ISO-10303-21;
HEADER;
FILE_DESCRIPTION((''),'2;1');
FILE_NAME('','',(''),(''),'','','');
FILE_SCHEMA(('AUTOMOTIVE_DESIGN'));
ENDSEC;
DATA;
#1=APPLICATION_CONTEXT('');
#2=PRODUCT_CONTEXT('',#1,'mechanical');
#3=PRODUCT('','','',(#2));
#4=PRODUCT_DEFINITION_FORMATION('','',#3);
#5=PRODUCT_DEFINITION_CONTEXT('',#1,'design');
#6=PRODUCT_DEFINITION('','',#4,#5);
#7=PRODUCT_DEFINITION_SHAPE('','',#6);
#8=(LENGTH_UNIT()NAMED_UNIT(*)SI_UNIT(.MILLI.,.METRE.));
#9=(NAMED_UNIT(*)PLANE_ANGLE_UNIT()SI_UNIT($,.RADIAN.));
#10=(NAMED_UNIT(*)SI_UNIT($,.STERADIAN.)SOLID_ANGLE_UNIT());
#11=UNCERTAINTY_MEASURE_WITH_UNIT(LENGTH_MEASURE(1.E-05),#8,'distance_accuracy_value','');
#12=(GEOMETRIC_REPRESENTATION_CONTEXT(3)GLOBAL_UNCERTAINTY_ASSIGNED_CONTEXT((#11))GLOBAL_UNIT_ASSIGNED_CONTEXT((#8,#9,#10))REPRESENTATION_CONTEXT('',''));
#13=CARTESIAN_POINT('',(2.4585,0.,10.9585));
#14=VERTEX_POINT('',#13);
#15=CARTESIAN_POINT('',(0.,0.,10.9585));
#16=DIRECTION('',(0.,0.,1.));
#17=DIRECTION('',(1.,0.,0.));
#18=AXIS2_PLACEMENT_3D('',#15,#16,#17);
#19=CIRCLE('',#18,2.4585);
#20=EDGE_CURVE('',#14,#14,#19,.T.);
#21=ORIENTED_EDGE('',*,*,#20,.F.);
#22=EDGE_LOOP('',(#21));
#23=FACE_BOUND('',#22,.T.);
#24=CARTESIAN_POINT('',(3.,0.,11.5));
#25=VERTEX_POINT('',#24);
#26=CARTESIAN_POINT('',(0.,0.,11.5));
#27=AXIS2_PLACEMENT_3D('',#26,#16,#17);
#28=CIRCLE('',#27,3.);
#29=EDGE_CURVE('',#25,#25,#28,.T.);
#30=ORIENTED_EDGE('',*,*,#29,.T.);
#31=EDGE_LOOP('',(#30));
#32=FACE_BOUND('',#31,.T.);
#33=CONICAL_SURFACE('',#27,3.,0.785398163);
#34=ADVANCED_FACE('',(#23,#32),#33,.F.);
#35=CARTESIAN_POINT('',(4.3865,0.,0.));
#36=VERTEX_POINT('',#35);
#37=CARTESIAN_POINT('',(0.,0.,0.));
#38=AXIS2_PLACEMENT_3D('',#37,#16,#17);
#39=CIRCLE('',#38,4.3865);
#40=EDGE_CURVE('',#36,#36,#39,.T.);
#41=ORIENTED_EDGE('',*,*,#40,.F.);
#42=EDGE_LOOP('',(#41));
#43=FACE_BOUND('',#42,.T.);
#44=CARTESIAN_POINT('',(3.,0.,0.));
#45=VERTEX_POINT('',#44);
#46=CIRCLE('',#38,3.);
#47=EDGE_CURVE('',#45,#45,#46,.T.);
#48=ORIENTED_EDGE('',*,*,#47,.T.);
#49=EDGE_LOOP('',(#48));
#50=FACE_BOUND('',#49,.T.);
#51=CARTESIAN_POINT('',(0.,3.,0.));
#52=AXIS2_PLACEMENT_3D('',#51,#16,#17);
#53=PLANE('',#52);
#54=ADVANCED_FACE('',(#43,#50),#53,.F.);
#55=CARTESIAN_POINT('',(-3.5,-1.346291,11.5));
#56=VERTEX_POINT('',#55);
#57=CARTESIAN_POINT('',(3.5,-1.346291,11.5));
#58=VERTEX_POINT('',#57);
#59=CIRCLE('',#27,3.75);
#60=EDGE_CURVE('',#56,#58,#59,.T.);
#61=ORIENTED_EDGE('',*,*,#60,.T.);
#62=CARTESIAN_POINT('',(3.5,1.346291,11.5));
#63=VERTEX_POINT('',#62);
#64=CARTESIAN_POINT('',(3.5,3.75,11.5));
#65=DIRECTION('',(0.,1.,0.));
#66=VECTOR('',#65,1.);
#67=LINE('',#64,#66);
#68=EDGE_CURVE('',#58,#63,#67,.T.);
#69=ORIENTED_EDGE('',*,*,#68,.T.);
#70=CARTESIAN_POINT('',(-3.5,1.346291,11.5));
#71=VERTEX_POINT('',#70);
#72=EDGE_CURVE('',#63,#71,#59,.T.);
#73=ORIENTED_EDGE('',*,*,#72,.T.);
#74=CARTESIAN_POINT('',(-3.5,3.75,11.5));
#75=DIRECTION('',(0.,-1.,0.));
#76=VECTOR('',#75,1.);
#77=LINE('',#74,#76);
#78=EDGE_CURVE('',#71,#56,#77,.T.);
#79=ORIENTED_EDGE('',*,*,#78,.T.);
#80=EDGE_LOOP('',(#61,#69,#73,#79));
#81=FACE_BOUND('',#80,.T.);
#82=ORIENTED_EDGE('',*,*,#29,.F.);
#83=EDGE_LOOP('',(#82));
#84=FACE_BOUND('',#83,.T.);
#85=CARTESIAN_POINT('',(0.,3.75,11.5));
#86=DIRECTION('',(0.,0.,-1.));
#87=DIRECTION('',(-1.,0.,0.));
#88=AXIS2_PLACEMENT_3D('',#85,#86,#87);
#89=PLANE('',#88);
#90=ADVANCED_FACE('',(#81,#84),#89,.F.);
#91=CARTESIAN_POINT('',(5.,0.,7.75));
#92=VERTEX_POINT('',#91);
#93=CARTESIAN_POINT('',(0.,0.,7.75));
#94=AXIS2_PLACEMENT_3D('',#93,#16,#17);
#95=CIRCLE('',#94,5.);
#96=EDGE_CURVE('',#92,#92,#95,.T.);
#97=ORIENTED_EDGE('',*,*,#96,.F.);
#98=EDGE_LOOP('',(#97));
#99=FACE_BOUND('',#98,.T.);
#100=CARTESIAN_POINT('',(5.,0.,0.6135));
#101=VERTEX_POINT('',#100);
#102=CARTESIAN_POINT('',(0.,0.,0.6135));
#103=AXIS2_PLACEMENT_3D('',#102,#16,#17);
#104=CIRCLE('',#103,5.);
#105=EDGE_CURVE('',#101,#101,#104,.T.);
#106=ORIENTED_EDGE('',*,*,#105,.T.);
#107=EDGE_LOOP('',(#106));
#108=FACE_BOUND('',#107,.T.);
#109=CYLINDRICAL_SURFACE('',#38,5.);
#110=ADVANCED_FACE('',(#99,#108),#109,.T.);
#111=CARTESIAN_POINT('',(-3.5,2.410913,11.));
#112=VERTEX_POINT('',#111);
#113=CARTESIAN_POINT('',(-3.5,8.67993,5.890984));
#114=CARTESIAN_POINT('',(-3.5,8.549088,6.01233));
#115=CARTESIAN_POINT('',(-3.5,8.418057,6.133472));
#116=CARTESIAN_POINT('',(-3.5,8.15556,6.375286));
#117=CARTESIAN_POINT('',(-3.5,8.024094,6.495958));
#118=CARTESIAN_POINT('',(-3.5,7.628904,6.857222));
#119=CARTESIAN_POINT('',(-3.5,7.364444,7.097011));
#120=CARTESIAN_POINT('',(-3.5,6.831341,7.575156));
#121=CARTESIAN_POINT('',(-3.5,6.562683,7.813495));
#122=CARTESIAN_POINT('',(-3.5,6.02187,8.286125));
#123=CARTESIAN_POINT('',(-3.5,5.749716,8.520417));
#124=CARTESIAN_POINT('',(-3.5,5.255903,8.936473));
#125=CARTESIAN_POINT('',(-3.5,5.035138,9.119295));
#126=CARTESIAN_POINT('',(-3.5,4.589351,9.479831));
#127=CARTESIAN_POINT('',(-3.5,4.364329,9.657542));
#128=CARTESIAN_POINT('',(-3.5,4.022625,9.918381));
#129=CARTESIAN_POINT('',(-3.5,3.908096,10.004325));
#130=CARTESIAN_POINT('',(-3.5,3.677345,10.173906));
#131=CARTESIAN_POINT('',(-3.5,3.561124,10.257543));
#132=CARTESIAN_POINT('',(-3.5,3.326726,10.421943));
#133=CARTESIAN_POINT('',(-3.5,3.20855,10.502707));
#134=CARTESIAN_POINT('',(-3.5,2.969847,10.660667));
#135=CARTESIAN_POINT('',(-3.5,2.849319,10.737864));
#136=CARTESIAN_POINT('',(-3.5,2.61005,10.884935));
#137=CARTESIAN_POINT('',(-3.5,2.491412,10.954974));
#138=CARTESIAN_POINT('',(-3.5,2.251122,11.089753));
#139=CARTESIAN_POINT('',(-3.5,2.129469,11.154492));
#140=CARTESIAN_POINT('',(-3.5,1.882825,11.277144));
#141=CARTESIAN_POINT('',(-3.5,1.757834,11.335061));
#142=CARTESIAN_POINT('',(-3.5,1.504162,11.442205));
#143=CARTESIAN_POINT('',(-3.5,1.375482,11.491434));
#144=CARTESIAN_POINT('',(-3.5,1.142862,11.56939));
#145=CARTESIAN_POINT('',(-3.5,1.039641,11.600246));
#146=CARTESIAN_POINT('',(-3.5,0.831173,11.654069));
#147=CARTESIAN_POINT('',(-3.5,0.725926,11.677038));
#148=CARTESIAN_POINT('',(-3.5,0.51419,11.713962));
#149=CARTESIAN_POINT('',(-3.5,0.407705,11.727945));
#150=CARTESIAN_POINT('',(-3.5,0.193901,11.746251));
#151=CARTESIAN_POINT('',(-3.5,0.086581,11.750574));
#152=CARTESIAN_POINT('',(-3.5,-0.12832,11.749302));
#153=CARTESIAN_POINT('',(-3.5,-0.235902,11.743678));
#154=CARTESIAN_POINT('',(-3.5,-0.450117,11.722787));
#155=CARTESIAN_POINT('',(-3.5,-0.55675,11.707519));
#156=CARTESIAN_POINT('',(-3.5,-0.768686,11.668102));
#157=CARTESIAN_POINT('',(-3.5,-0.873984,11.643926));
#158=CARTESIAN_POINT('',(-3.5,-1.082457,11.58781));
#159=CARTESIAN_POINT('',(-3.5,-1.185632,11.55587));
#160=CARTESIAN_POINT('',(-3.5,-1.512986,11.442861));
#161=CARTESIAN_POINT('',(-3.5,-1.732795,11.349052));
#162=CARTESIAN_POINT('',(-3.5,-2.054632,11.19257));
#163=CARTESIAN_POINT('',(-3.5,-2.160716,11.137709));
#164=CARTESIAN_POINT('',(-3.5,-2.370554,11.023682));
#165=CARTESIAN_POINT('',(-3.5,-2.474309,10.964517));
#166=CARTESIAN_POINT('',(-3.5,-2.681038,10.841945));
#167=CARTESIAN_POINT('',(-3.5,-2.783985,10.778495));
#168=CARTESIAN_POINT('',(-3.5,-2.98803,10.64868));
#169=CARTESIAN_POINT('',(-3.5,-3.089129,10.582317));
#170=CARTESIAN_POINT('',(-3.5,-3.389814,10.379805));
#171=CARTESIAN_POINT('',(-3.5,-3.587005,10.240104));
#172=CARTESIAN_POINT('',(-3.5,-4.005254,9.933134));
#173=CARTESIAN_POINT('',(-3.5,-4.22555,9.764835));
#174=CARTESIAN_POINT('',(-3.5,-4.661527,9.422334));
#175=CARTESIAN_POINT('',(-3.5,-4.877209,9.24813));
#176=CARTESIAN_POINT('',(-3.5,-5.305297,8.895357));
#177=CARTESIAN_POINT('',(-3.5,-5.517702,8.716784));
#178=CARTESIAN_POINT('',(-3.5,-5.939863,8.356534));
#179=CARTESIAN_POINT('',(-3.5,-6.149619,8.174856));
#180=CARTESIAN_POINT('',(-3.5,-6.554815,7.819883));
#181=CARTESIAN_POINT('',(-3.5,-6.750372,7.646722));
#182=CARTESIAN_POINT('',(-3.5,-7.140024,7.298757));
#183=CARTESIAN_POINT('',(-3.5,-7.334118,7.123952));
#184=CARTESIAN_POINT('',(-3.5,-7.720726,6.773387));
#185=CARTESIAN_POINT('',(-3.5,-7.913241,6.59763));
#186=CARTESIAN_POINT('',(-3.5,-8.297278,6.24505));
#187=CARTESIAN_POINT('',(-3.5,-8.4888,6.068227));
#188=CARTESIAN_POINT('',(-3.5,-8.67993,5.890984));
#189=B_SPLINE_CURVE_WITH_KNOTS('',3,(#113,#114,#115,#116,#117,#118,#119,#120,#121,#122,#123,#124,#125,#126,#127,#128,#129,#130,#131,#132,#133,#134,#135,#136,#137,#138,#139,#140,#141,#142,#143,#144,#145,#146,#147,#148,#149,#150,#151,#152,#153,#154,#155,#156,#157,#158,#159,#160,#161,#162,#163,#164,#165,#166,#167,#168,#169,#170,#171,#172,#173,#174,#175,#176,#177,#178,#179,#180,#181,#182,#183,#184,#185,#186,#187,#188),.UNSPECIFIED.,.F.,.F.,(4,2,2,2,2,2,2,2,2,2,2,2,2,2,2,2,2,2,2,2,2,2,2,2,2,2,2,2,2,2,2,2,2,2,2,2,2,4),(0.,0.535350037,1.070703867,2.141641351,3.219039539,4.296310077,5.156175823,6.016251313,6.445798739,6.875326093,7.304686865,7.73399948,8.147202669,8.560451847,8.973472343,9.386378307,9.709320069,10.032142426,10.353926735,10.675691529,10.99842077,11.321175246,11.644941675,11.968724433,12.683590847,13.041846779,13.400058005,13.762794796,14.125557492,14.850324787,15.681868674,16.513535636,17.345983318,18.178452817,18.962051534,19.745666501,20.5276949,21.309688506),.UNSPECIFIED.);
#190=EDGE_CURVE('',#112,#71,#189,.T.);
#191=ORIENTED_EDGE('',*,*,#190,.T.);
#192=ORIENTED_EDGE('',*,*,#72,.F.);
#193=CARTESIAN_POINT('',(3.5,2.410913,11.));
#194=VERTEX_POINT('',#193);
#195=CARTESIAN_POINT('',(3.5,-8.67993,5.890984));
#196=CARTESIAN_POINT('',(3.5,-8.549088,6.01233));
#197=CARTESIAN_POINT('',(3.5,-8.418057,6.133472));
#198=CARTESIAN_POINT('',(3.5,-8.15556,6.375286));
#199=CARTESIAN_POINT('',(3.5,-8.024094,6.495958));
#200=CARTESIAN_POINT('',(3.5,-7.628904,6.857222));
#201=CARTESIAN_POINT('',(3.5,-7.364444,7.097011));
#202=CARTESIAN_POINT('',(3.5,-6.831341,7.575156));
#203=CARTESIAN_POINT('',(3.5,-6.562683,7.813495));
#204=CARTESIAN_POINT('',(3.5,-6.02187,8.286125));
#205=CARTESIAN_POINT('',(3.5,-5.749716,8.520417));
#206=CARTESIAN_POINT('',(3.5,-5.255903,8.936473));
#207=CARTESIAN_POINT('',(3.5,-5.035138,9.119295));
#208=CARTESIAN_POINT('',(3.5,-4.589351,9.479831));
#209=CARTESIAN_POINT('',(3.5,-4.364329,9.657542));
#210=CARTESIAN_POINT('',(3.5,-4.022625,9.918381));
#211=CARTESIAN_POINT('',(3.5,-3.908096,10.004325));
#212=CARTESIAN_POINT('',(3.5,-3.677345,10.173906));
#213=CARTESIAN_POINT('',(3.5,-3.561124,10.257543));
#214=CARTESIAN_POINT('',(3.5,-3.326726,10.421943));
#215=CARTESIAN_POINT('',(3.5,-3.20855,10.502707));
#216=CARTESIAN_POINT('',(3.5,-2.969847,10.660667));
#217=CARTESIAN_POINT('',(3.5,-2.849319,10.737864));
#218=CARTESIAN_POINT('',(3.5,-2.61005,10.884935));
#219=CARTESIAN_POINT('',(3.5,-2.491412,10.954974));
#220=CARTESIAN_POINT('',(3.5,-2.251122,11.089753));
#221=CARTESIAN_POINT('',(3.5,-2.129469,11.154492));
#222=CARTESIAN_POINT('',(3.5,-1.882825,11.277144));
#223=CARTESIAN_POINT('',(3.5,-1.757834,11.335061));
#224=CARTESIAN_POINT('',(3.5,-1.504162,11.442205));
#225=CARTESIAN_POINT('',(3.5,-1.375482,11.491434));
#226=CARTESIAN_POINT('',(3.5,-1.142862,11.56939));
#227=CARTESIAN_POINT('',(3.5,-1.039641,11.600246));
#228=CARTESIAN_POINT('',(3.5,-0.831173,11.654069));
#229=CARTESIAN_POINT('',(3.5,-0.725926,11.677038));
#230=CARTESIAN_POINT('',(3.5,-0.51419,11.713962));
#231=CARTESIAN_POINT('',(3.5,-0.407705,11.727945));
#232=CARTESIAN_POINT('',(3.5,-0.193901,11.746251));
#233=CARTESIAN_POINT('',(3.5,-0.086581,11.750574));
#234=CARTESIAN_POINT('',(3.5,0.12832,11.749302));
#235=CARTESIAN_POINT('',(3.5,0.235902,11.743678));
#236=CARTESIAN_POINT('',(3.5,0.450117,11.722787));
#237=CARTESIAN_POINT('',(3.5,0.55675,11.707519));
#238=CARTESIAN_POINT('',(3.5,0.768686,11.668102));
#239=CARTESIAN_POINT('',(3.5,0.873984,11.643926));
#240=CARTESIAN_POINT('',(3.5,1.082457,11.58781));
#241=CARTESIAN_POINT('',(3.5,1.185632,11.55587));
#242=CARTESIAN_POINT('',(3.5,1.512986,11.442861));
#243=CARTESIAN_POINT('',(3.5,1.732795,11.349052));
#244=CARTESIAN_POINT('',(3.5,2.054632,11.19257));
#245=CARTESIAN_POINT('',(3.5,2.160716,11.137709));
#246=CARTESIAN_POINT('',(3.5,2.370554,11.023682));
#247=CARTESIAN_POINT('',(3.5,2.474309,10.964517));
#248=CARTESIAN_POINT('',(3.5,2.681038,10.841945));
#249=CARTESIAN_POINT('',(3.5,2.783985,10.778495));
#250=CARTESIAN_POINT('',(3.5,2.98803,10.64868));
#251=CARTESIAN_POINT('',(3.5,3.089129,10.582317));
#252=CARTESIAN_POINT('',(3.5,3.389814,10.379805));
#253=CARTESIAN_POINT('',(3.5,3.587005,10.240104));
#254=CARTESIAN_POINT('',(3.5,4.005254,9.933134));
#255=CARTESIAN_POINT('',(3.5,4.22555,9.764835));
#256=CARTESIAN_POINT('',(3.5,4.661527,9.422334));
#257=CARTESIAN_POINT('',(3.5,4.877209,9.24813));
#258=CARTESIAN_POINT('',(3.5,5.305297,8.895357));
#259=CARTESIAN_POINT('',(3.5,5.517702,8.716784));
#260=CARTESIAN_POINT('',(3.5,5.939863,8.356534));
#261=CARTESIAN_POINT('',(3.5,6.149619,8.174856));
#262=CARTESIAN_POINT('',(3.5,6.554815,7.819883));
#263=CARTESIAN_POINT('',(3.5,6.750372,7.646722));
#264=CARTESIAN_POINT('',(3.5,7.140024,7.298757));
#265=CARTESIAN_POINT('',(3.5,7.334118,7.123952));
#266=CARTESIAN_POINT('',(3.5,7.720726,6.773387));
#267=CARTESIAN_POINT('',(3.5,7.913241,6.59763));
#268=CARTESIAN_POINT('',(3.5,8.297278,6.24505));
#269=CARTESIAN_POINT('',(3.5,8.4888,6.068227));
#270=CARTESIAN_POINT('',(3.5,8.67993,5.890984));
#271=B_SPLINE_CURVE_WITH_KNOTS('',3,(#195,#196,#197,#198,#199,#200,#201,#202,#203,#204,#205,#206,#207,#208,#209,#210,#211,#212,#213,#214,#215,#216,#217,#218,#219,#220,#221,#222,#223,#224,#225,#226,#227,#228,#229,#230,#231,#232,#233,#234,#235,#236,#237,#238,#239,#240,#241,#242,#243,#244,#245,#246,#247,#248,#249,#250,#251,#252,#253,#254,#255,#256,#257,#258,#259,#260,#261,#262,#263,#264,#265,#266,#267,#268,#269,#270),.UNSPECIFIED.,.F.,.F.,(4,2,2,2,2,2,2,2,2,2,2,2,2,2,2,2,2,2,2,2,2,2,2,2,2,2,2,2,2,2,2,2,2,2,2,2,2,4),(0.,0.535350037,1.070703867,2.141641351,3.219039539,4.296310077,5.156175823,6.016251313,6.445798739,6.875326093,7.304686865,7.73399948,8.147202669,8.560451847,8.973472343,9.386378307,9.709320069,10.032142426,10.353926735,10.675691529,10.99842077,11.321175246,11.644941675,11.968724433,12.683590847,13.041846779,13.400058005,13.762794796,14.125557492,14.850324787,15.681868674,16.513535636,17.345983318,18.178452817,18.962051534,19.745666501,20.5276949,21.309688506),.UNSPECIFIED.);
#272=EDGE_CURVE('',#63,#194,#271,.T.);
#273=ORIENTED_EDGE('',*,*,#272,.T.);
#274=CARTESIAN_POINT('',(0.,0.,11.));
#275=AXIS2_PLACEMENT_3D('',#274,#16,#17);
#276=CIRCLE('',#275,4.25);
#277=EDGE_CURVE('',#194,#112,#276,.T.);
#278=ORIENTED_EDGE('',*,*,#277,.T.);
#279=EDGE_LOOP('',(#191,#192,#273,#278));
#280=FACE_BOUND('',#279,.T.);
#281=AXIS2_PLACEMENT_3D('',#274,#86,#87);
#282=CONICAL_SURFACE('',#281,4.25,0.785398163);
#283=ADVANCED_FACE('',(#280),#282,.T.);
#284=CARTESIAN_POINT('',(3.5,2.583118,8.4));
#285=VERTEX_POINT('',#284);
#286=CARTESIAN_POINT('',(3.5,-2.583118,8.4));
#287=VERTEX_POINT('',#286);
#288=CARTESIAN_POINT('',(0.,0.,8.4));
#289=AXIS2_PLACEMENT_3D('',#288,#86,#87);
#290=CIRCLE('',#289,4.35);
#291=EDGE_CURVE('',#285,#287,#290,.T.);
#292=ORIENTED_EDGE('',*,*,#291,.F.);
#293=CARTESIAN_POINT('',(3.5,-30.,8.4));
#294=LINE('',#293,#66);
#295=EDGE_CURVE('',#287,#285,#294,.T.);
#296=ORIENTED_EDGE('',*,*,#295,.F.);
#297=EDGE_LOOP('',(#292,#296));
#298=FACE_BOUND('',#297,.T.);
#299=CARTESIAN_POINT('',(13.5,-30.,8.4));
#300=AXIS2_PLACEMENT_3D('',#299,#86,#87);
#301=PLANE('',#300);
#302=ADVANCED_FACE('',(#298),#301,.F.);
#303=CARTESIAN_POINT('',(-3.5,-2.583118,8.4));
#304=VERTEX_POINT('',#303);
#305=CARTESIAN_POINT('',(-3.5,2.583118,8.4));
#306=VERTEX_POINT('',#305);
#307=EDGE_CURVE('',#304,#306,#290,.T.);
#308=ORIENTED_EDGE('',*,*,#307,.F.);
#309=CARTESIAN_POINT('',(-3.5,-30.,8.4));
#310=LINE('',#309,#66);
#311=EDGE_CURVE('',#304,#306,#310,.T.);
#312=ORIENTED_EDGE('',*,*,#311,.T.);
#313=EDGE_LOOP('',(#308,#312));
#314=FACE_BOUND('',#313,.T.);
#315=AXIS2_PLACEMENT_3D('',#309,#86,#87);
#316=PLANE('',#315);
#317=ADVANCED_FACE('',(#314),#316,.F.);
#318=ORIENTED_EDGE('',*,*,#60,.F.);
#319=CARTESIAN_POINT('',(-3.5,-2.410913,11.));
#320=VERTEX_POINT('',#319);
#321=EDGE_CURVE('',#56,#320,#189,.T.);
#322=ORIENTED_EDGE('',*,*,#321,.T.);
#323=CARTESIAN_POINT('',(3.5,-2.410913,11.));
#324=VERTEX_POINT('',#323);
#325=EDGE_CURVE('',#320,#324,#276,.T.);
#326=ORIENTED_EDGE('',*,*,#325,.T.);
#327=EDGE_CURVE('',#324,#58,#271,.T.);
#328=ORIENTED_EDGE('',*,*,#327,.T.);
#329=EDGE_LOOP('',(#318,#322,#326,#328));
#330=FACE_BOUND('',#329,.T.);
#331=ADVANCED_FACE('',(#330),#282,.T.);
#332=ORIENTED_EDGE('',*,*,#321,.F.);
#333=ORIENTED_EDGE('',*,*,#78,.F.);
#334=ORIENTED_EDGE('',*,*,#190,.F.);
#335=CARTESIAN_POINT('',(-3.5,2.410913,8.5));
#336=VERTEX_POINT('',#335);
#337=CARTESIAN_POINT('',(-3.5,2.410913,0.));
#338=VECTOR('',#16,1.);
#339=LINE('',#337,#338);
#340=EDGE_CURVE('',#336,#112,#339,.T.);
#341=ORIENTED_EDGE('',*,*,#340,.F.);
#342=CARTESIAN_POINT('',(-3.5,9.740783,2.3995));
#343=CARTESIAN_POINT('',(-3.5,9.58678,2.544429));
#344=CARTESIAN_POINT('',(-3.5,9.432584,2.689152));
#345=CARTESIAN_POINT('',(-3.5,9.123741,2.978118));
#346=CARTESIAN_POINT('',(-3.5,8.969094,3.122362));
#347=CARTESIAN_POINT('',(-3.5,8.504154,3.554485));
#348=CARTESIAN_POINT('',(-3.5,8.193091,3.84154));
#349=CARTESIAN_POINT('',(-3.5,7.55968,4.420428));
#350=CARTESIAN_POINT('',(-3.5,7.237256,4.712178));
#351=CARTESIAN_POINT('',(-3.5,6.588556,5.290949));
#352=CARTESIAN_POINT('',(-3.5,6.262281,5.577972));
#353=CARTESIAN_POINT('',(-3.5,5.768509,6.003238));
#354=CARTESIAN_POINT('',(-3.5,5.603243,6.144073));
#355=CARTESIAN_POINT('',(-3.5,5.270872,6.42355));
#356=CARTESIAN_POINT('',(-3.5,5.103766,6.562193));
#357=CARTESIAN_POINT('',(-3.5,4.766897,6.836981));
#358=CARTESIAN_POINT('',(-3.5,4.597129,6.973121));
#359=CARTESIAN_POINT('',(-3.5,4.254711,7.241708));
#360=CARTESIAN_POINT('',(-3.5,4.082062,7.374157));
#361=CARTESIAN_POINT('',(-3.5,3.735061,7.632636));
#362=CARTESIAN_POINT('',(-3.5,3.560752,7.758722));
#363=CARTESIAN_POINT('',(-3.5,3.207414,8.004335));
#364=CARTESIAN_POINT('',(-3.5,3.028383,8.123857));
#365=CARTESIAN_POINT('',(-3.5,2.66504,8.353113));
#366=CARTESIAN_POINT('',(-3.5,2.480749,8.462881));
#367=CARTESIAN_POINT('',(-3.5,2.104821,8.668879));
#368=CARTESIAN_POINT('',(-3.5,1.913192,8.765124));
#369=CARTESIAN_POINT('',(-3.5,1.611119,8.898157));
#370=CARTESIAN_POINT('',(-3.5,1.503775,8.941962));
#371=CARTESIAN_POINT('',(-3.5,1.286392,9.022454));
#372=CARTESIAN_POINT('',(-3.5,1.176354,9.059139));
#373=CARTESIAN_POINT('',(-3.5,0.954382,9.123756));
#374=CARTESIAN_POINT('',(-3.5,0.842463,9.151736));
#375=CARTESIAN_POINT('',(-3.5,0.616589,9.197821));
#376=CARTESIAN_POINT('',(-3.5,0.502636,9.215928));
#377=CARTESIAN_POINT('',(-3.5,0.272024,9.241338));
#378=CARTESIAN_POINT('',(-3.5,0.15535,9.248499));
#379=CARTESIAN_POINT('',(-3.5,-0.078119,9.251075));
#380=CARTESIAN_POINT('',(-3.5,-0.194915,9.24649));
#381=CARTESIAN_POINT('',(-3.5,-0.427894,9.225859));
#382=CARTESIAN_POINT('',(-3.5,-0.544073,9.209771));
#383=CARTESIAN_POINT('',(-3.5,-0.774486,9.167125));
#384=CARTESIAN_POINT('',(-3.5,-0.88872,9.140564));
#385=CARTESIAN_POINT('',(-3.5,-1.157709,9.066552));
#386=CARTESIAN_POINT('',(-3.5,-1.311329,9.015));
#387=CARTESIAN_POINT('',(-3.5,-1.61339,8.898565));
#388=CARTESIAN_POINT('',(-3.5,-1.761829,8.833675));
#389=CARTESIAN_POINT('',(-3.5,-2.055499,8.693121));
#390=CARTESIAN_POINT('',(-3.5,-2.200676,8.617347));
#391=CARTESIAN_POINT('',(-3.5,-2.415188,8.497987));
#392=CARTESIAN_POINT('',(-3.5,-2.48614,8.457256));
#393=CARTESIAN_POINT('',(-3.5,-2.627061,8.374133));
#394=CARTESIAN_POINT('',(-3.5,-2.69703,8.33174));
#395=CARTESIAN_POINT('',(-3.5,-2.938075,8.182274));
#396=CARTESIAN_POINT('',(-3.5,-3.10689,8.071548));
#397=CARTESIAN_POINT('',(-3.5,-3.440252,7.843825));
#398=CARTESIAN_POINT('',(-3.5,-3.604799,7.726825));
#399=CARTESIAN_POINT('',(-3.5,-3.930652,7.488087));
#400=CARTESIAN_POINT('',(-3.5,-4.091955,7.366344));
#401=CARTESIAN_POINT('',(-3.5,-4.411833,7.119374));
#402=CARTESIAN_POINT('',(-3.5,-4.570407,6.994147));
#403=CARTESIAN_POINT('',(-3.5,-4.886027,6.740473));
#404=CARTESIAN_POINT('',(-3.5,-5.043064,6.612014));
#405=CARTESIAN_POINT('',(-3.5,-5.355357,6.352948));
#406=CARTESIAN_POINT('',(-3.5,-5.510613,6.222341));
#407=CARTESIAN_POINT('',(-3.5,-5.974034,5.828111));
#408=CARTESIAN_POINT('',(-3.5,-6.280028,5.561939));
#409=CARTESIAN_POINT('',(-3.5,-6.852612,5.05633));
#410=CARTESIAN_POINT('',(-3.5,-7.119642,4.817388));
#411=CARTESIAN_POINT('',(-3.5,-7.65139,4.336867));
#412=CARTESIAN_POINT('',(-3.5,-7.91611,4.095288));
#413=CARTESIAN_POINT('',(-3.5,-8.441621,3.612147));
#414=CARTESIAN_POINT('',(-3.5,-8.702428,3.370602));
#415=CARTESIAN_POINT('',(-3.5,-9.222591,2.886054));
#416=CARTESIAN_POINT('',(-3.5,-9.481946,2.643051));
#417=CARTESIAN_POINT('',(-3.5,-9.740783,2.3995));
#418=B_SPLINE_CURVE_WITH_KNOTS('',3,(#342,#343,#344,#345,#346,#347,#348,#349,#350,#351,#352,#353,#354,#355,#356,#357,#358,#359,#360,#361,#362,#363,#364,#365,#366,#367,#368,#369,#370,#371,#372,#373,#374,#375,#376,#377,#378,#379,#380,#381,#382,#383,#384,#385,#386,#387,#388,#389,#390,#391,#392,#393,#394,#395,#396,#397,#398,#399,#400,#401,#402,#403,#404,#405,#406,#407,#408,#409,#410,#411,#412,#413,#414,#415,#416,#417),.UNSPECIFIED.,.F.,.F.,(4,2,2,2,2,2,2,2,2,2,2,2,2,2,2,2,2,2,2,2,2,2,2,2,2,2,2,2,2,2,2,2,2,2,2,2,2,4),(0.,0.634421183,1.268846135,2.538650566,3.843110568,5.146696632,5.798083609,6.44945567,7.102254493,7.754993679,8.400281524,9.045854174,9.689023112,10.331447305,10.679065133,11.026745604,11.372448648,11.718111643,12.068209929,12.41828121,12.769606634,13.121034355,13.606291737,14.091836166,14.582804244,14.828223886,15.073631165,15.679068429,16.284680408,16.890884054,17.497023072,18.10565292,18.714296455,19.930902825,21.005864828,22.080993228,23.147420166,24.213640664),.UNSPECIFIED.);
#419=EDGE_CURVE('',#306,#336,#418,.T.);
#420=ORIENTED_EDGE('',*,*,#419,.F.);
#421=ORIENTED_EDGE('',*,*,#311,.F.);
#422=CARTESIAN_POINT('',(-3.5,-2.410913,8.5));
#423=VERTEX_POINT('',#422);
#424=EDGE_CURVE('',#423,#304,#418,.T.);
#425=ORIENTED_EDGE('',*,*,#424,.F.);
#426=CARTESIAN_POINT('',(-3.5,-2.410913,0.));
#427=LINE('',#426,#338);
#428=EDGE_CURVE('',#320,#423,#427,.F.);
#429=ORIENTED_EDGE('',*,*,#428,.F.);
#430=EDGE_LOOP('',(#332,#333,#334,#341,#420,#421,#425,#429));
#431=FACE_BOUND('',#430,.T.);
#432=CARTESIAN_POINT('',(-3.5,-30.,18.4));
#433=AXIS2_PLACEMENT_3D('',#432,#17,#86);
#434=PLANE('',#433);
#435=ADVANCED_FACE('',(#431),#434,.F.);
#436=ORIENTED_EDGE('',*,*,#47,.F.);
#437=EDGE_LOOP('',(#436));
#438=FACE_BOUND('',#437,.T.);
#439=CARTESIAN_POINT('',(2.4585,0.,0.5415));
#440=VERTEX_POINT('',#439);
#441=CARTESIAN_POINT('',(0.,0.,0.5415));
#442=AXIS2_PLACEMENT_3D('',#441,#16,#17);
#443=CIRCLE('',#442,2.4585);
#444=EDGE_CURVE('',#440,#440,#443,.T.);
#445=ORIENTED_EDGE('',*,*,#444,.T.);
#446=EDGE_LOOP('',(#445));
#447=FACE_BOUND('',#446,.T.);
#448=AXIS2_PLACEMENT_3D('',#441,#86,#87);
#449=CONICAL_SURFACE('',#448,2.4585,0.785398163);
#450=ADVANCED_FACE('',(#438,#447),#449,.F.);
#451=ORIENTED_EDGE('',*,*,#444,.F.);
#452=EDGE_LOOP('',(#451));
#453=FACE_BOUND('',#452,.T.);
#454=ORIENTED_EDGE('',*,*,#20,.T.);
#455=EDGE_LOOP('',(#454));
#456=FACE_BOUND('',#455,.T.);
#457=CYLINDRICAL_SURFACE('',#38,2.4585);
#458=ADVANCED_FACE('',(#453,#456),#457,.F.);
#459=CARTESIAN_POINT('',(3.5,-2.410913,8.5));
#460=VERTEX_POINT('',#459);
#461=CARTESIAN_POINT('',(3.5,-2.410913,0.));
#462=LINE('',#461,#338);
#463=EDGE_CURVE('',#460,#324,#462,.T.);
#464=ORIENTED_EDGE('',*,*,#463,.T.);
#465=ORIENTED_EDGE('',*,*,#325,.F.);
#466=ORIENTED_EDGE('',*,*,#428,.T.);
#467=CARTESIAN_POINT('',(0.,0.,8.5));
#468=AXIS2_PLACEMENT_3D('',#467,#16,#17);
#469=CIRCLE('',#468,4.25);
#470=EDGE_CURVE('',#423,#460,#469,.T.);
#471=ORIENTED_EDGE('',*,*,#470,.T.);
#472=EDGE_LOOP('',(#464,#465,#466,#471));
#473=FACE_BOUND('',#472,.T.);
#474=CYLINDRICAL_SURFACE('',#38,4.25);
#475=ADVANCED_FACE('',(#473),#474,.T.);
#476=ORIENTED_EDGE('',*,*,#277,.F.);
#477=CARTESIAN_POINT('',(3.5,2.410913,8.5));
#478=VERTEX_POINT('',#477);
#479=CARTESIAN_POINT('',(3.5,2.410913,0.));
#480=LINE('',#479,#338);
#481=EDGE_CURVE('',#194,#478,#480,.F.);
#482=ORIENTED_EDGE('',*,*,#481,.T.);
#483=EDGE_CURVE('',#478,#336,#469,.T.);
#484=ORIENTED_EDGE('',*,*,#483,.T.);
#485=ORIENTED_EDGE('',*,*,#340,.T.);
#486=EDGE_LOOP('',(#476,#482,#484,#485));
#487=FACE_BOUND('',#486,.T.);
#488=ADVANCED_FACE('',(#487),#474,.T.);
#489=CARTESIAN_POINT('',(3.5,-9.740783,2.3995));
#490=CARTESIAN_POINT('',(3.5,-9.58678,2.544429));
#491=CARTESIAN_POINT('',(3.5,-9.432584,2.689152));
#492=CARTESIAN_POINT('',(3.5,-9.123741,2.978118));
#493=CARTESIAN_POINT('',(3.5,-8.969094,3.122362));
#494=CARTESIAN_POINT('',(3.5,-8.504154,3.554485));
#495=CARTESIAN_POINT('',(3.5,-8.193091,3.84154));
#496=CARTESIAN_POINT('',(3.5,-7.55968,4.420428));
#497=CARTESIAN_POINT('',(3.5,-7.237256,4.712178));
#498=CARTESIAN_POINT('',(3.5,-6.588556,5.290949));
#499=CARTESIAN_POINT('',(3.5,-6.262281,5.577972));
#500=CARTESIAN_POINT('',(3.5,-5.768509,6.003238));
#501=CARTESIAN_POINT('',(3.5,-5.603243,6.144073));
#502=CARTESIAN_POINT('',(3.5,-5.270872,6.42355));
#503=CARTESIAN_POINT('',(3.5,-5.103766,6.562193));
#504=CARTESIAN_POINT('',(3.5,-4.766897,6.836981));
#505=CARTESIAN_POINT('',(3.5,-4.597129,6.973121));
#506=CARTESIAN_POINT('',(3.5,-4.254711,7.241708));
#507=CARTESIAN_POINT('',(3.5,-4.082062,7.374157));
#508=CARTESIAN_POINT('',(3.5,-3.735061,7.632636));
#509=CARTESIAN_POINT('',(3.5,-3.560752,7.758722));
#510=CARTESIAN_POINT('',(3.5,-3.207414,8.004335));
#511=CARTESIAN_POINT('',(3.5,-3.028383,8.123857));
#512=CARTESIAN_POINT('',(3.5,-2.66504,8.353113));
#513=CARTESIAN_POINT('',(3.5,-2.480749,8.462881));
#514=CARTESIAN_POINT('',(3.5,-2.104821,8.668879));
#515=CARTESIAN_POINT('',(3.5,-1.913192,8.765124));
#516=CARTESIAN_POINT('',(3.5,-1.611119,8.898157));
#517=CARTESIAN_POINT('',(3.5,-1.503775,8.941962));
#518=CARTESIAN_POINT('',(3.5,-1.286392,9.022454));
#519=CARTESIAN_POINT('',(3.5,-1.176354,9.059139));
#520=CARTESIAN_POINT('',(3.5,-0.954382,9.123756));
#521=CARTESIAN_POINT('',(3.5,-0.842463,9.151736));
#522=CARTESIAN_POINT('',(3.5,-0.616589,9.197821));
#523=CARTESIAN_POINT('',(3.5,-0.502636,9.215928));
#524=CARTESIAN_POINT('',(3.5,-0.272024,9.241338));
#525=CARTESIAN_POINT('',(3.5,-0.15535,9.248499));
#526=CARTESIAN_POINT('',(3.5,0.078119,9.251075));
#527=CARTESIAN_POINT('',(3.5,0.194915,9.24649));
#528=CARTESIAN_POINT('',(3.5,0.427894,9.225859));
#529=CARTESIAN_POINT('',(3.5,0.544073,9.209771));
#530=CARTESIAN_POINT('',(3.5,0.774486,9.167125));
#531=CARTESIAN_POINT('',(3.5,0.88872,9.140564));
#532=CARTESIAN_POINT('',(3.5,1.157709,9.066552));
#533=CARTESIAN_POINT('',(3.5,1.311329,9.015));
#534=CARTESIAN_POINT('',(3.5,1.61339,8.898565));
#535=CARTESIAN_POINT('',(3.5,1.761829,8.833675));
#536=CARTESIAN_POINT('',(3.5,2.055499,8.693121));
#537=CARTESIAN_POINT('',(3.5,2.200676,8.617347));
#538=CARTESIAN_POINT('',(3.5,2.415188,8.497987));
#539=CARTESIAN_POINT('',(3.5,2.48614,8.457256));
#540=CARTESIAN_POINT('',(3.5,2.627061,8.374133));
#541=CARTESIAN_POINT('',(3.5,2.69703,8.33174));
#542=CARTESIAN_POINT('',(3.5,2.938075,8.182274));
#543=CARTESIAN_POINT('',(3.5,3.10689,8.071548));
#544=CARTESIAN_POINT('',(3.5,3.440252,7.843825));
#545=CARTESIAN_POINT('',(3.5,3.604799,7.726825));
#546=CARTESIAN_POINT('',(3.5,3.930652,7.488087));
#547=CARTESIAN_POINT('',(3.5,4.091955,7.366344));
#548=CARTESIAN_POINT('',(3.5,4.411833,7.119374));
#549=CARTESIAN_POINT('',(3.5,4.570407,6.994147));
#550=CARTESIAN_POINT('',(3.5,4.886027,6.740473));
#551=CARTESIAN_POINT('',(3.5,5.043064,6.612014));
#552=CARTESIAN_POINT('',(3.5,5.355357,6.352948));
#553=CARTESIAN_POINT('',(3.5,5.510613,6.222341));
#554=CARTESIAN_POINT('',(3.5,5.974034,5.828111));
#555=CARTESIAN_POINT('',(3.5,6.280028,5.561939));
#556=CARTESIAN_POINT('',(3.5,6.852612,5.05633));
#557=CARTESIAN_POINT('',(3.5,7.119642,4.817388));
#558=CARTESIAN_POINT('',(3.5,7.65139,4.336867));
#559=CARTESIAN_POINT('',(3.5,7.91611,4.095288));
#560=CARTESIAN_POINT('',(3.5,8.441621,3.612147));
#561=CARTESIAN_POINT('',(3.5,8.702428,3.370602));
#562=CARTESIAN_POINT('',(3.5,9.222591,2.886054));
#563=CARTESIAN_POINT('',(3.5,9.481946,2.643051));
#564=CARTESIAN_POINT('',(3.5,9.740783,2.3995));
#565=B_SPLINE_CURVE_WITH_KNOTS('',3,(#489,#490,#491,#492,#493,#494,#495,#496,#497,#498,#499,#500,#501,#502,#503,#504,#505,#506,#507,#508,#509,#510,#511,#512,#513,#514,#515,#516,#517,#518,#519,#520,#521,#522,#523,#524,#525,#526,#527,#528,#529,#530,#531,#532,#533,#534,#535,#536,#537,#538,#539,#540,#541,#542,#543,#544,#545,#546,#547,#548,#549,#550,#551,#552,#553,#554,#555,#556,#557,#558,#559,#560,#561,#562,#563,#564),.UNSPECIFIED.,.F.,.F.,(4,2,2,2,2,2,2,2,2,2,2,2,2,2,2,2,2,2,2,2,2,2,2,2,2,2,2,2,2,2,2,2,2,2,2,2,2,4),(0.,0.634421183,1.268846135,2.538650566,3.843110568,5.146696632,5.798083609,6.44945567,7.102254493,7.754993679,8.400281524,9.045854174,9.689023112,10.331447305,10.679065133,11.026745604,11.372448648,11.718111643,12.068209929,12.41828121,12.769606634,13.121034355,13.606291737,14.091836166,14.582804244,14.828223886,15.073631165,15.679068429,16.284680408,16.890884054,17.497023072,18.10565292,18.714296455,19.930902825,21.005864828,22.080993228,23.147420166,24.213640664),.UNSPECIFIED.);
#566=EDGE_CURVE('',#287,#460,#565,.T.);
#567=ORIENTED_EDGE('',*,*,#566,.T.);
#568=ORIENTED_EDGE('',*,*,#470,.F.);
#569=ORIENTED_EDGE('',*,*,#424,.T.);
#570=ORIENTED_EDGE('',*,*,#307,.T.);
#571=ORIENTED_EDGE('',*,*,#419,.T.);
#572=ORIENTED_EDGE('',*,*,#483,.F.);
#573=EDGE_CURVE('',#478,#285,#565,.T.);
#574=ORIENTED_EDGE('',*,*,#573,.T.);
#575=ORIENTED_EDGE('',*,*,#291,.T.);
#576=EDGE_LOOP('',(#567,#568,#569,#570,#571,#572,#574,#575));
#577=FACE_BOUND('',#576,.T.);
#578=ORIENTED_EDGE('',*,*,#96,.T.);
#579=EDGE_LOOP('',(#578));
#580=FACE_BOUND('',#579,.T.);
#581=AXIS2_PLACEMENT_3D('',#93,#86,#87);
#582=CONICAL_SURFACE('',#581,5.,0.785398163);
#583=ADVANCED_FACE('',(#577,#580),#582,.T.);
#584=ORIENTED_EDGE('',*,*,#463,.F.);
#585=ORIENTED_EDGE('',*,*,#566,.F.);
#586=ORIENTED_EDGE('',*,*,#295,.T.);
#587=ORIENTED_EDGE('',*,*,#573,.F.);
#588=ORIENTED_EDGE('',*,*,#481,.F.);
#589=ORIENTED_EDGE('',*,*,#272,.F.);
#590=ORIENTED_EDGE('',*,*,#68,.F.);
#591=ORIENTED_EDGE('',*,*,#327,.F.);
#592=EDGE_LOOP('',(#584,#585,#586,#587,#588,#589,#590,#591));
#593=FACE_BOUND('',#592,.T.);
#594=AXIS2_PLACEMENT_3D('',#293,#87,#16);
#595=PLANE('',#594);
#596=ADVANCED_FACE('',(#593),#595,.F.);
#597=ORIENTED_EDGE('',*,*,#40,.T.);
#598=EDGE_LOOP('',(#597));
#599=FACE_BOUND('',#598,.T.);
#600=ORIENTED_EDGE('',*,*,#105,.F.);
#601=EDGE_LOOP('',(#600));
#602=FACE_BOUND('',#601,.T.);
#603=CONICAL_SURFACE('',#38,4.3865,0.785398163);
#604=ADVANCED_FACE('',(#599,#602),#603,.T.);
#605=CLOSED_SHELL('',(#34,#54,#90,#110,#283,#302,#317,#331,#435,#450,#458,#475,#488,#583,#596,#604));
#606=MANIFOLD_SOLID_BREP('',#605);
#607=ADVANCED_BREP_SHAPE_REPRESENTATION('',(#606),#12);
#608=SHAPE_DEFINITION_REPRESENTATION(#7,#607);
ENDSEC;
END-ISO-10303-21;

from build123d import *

# Parameters (mm, degrees)
SCHNITT_LINEAR_AUSTRAGEN1_DEPTH      = 30
SCHNITT_LINEAR_AUSTRAGEN1_DEPTH_BACK = 30


with BuildPart() as part:
    # Skizze1 → Rotation1 (revolve)
    with BuildSketch(Plane(origin=(0, 0, 0), x_dir=(0, 0, -1), z_dir=(1, 0, 0))):
        Polygon((-11.5, 3.75), (-11.5, 3), (-10.9585, 2.4585), (-0.5415, 2.4585), (0, 3), (0, 4.3865), (-0.6135, 5), (-7.75, 5), (-8.5, 4.25), (-11, 4.25), align=None)
    revolve(axis=Axis((0, 0, 0), (0, 0, 1)))

    # Skizze2 → Schnitt-Linear austragen1 (cut, two sides: drawn at the far end of the back side and taken through both)
    with BuildSketch(Plane(origin=(0, 0, 0), x_dir=(1, 0, 0), z_dir=(0, 1, 0)).offset(-SCHNITT_LINEAR_AUSTRAGEN1_DEPTH_BACK)):
        Polygon((-13.5, -23.4), (13.5, -23.4), (13.5, -8.4), (3.5, -8.4), (3.5, -18.4), (-3.5, -18.4), (-3.5, -8.4), (-13.5, -8.4), align=None)
    extrude(amount=SCHNITT_LINEAR_AUSTRAGEN1_DEPTH + SCHNITT_LINEAR_AUSTRAGEN1_DEPTH_BACK, mode=Mode.SUBTRACT)


solid = part.part
